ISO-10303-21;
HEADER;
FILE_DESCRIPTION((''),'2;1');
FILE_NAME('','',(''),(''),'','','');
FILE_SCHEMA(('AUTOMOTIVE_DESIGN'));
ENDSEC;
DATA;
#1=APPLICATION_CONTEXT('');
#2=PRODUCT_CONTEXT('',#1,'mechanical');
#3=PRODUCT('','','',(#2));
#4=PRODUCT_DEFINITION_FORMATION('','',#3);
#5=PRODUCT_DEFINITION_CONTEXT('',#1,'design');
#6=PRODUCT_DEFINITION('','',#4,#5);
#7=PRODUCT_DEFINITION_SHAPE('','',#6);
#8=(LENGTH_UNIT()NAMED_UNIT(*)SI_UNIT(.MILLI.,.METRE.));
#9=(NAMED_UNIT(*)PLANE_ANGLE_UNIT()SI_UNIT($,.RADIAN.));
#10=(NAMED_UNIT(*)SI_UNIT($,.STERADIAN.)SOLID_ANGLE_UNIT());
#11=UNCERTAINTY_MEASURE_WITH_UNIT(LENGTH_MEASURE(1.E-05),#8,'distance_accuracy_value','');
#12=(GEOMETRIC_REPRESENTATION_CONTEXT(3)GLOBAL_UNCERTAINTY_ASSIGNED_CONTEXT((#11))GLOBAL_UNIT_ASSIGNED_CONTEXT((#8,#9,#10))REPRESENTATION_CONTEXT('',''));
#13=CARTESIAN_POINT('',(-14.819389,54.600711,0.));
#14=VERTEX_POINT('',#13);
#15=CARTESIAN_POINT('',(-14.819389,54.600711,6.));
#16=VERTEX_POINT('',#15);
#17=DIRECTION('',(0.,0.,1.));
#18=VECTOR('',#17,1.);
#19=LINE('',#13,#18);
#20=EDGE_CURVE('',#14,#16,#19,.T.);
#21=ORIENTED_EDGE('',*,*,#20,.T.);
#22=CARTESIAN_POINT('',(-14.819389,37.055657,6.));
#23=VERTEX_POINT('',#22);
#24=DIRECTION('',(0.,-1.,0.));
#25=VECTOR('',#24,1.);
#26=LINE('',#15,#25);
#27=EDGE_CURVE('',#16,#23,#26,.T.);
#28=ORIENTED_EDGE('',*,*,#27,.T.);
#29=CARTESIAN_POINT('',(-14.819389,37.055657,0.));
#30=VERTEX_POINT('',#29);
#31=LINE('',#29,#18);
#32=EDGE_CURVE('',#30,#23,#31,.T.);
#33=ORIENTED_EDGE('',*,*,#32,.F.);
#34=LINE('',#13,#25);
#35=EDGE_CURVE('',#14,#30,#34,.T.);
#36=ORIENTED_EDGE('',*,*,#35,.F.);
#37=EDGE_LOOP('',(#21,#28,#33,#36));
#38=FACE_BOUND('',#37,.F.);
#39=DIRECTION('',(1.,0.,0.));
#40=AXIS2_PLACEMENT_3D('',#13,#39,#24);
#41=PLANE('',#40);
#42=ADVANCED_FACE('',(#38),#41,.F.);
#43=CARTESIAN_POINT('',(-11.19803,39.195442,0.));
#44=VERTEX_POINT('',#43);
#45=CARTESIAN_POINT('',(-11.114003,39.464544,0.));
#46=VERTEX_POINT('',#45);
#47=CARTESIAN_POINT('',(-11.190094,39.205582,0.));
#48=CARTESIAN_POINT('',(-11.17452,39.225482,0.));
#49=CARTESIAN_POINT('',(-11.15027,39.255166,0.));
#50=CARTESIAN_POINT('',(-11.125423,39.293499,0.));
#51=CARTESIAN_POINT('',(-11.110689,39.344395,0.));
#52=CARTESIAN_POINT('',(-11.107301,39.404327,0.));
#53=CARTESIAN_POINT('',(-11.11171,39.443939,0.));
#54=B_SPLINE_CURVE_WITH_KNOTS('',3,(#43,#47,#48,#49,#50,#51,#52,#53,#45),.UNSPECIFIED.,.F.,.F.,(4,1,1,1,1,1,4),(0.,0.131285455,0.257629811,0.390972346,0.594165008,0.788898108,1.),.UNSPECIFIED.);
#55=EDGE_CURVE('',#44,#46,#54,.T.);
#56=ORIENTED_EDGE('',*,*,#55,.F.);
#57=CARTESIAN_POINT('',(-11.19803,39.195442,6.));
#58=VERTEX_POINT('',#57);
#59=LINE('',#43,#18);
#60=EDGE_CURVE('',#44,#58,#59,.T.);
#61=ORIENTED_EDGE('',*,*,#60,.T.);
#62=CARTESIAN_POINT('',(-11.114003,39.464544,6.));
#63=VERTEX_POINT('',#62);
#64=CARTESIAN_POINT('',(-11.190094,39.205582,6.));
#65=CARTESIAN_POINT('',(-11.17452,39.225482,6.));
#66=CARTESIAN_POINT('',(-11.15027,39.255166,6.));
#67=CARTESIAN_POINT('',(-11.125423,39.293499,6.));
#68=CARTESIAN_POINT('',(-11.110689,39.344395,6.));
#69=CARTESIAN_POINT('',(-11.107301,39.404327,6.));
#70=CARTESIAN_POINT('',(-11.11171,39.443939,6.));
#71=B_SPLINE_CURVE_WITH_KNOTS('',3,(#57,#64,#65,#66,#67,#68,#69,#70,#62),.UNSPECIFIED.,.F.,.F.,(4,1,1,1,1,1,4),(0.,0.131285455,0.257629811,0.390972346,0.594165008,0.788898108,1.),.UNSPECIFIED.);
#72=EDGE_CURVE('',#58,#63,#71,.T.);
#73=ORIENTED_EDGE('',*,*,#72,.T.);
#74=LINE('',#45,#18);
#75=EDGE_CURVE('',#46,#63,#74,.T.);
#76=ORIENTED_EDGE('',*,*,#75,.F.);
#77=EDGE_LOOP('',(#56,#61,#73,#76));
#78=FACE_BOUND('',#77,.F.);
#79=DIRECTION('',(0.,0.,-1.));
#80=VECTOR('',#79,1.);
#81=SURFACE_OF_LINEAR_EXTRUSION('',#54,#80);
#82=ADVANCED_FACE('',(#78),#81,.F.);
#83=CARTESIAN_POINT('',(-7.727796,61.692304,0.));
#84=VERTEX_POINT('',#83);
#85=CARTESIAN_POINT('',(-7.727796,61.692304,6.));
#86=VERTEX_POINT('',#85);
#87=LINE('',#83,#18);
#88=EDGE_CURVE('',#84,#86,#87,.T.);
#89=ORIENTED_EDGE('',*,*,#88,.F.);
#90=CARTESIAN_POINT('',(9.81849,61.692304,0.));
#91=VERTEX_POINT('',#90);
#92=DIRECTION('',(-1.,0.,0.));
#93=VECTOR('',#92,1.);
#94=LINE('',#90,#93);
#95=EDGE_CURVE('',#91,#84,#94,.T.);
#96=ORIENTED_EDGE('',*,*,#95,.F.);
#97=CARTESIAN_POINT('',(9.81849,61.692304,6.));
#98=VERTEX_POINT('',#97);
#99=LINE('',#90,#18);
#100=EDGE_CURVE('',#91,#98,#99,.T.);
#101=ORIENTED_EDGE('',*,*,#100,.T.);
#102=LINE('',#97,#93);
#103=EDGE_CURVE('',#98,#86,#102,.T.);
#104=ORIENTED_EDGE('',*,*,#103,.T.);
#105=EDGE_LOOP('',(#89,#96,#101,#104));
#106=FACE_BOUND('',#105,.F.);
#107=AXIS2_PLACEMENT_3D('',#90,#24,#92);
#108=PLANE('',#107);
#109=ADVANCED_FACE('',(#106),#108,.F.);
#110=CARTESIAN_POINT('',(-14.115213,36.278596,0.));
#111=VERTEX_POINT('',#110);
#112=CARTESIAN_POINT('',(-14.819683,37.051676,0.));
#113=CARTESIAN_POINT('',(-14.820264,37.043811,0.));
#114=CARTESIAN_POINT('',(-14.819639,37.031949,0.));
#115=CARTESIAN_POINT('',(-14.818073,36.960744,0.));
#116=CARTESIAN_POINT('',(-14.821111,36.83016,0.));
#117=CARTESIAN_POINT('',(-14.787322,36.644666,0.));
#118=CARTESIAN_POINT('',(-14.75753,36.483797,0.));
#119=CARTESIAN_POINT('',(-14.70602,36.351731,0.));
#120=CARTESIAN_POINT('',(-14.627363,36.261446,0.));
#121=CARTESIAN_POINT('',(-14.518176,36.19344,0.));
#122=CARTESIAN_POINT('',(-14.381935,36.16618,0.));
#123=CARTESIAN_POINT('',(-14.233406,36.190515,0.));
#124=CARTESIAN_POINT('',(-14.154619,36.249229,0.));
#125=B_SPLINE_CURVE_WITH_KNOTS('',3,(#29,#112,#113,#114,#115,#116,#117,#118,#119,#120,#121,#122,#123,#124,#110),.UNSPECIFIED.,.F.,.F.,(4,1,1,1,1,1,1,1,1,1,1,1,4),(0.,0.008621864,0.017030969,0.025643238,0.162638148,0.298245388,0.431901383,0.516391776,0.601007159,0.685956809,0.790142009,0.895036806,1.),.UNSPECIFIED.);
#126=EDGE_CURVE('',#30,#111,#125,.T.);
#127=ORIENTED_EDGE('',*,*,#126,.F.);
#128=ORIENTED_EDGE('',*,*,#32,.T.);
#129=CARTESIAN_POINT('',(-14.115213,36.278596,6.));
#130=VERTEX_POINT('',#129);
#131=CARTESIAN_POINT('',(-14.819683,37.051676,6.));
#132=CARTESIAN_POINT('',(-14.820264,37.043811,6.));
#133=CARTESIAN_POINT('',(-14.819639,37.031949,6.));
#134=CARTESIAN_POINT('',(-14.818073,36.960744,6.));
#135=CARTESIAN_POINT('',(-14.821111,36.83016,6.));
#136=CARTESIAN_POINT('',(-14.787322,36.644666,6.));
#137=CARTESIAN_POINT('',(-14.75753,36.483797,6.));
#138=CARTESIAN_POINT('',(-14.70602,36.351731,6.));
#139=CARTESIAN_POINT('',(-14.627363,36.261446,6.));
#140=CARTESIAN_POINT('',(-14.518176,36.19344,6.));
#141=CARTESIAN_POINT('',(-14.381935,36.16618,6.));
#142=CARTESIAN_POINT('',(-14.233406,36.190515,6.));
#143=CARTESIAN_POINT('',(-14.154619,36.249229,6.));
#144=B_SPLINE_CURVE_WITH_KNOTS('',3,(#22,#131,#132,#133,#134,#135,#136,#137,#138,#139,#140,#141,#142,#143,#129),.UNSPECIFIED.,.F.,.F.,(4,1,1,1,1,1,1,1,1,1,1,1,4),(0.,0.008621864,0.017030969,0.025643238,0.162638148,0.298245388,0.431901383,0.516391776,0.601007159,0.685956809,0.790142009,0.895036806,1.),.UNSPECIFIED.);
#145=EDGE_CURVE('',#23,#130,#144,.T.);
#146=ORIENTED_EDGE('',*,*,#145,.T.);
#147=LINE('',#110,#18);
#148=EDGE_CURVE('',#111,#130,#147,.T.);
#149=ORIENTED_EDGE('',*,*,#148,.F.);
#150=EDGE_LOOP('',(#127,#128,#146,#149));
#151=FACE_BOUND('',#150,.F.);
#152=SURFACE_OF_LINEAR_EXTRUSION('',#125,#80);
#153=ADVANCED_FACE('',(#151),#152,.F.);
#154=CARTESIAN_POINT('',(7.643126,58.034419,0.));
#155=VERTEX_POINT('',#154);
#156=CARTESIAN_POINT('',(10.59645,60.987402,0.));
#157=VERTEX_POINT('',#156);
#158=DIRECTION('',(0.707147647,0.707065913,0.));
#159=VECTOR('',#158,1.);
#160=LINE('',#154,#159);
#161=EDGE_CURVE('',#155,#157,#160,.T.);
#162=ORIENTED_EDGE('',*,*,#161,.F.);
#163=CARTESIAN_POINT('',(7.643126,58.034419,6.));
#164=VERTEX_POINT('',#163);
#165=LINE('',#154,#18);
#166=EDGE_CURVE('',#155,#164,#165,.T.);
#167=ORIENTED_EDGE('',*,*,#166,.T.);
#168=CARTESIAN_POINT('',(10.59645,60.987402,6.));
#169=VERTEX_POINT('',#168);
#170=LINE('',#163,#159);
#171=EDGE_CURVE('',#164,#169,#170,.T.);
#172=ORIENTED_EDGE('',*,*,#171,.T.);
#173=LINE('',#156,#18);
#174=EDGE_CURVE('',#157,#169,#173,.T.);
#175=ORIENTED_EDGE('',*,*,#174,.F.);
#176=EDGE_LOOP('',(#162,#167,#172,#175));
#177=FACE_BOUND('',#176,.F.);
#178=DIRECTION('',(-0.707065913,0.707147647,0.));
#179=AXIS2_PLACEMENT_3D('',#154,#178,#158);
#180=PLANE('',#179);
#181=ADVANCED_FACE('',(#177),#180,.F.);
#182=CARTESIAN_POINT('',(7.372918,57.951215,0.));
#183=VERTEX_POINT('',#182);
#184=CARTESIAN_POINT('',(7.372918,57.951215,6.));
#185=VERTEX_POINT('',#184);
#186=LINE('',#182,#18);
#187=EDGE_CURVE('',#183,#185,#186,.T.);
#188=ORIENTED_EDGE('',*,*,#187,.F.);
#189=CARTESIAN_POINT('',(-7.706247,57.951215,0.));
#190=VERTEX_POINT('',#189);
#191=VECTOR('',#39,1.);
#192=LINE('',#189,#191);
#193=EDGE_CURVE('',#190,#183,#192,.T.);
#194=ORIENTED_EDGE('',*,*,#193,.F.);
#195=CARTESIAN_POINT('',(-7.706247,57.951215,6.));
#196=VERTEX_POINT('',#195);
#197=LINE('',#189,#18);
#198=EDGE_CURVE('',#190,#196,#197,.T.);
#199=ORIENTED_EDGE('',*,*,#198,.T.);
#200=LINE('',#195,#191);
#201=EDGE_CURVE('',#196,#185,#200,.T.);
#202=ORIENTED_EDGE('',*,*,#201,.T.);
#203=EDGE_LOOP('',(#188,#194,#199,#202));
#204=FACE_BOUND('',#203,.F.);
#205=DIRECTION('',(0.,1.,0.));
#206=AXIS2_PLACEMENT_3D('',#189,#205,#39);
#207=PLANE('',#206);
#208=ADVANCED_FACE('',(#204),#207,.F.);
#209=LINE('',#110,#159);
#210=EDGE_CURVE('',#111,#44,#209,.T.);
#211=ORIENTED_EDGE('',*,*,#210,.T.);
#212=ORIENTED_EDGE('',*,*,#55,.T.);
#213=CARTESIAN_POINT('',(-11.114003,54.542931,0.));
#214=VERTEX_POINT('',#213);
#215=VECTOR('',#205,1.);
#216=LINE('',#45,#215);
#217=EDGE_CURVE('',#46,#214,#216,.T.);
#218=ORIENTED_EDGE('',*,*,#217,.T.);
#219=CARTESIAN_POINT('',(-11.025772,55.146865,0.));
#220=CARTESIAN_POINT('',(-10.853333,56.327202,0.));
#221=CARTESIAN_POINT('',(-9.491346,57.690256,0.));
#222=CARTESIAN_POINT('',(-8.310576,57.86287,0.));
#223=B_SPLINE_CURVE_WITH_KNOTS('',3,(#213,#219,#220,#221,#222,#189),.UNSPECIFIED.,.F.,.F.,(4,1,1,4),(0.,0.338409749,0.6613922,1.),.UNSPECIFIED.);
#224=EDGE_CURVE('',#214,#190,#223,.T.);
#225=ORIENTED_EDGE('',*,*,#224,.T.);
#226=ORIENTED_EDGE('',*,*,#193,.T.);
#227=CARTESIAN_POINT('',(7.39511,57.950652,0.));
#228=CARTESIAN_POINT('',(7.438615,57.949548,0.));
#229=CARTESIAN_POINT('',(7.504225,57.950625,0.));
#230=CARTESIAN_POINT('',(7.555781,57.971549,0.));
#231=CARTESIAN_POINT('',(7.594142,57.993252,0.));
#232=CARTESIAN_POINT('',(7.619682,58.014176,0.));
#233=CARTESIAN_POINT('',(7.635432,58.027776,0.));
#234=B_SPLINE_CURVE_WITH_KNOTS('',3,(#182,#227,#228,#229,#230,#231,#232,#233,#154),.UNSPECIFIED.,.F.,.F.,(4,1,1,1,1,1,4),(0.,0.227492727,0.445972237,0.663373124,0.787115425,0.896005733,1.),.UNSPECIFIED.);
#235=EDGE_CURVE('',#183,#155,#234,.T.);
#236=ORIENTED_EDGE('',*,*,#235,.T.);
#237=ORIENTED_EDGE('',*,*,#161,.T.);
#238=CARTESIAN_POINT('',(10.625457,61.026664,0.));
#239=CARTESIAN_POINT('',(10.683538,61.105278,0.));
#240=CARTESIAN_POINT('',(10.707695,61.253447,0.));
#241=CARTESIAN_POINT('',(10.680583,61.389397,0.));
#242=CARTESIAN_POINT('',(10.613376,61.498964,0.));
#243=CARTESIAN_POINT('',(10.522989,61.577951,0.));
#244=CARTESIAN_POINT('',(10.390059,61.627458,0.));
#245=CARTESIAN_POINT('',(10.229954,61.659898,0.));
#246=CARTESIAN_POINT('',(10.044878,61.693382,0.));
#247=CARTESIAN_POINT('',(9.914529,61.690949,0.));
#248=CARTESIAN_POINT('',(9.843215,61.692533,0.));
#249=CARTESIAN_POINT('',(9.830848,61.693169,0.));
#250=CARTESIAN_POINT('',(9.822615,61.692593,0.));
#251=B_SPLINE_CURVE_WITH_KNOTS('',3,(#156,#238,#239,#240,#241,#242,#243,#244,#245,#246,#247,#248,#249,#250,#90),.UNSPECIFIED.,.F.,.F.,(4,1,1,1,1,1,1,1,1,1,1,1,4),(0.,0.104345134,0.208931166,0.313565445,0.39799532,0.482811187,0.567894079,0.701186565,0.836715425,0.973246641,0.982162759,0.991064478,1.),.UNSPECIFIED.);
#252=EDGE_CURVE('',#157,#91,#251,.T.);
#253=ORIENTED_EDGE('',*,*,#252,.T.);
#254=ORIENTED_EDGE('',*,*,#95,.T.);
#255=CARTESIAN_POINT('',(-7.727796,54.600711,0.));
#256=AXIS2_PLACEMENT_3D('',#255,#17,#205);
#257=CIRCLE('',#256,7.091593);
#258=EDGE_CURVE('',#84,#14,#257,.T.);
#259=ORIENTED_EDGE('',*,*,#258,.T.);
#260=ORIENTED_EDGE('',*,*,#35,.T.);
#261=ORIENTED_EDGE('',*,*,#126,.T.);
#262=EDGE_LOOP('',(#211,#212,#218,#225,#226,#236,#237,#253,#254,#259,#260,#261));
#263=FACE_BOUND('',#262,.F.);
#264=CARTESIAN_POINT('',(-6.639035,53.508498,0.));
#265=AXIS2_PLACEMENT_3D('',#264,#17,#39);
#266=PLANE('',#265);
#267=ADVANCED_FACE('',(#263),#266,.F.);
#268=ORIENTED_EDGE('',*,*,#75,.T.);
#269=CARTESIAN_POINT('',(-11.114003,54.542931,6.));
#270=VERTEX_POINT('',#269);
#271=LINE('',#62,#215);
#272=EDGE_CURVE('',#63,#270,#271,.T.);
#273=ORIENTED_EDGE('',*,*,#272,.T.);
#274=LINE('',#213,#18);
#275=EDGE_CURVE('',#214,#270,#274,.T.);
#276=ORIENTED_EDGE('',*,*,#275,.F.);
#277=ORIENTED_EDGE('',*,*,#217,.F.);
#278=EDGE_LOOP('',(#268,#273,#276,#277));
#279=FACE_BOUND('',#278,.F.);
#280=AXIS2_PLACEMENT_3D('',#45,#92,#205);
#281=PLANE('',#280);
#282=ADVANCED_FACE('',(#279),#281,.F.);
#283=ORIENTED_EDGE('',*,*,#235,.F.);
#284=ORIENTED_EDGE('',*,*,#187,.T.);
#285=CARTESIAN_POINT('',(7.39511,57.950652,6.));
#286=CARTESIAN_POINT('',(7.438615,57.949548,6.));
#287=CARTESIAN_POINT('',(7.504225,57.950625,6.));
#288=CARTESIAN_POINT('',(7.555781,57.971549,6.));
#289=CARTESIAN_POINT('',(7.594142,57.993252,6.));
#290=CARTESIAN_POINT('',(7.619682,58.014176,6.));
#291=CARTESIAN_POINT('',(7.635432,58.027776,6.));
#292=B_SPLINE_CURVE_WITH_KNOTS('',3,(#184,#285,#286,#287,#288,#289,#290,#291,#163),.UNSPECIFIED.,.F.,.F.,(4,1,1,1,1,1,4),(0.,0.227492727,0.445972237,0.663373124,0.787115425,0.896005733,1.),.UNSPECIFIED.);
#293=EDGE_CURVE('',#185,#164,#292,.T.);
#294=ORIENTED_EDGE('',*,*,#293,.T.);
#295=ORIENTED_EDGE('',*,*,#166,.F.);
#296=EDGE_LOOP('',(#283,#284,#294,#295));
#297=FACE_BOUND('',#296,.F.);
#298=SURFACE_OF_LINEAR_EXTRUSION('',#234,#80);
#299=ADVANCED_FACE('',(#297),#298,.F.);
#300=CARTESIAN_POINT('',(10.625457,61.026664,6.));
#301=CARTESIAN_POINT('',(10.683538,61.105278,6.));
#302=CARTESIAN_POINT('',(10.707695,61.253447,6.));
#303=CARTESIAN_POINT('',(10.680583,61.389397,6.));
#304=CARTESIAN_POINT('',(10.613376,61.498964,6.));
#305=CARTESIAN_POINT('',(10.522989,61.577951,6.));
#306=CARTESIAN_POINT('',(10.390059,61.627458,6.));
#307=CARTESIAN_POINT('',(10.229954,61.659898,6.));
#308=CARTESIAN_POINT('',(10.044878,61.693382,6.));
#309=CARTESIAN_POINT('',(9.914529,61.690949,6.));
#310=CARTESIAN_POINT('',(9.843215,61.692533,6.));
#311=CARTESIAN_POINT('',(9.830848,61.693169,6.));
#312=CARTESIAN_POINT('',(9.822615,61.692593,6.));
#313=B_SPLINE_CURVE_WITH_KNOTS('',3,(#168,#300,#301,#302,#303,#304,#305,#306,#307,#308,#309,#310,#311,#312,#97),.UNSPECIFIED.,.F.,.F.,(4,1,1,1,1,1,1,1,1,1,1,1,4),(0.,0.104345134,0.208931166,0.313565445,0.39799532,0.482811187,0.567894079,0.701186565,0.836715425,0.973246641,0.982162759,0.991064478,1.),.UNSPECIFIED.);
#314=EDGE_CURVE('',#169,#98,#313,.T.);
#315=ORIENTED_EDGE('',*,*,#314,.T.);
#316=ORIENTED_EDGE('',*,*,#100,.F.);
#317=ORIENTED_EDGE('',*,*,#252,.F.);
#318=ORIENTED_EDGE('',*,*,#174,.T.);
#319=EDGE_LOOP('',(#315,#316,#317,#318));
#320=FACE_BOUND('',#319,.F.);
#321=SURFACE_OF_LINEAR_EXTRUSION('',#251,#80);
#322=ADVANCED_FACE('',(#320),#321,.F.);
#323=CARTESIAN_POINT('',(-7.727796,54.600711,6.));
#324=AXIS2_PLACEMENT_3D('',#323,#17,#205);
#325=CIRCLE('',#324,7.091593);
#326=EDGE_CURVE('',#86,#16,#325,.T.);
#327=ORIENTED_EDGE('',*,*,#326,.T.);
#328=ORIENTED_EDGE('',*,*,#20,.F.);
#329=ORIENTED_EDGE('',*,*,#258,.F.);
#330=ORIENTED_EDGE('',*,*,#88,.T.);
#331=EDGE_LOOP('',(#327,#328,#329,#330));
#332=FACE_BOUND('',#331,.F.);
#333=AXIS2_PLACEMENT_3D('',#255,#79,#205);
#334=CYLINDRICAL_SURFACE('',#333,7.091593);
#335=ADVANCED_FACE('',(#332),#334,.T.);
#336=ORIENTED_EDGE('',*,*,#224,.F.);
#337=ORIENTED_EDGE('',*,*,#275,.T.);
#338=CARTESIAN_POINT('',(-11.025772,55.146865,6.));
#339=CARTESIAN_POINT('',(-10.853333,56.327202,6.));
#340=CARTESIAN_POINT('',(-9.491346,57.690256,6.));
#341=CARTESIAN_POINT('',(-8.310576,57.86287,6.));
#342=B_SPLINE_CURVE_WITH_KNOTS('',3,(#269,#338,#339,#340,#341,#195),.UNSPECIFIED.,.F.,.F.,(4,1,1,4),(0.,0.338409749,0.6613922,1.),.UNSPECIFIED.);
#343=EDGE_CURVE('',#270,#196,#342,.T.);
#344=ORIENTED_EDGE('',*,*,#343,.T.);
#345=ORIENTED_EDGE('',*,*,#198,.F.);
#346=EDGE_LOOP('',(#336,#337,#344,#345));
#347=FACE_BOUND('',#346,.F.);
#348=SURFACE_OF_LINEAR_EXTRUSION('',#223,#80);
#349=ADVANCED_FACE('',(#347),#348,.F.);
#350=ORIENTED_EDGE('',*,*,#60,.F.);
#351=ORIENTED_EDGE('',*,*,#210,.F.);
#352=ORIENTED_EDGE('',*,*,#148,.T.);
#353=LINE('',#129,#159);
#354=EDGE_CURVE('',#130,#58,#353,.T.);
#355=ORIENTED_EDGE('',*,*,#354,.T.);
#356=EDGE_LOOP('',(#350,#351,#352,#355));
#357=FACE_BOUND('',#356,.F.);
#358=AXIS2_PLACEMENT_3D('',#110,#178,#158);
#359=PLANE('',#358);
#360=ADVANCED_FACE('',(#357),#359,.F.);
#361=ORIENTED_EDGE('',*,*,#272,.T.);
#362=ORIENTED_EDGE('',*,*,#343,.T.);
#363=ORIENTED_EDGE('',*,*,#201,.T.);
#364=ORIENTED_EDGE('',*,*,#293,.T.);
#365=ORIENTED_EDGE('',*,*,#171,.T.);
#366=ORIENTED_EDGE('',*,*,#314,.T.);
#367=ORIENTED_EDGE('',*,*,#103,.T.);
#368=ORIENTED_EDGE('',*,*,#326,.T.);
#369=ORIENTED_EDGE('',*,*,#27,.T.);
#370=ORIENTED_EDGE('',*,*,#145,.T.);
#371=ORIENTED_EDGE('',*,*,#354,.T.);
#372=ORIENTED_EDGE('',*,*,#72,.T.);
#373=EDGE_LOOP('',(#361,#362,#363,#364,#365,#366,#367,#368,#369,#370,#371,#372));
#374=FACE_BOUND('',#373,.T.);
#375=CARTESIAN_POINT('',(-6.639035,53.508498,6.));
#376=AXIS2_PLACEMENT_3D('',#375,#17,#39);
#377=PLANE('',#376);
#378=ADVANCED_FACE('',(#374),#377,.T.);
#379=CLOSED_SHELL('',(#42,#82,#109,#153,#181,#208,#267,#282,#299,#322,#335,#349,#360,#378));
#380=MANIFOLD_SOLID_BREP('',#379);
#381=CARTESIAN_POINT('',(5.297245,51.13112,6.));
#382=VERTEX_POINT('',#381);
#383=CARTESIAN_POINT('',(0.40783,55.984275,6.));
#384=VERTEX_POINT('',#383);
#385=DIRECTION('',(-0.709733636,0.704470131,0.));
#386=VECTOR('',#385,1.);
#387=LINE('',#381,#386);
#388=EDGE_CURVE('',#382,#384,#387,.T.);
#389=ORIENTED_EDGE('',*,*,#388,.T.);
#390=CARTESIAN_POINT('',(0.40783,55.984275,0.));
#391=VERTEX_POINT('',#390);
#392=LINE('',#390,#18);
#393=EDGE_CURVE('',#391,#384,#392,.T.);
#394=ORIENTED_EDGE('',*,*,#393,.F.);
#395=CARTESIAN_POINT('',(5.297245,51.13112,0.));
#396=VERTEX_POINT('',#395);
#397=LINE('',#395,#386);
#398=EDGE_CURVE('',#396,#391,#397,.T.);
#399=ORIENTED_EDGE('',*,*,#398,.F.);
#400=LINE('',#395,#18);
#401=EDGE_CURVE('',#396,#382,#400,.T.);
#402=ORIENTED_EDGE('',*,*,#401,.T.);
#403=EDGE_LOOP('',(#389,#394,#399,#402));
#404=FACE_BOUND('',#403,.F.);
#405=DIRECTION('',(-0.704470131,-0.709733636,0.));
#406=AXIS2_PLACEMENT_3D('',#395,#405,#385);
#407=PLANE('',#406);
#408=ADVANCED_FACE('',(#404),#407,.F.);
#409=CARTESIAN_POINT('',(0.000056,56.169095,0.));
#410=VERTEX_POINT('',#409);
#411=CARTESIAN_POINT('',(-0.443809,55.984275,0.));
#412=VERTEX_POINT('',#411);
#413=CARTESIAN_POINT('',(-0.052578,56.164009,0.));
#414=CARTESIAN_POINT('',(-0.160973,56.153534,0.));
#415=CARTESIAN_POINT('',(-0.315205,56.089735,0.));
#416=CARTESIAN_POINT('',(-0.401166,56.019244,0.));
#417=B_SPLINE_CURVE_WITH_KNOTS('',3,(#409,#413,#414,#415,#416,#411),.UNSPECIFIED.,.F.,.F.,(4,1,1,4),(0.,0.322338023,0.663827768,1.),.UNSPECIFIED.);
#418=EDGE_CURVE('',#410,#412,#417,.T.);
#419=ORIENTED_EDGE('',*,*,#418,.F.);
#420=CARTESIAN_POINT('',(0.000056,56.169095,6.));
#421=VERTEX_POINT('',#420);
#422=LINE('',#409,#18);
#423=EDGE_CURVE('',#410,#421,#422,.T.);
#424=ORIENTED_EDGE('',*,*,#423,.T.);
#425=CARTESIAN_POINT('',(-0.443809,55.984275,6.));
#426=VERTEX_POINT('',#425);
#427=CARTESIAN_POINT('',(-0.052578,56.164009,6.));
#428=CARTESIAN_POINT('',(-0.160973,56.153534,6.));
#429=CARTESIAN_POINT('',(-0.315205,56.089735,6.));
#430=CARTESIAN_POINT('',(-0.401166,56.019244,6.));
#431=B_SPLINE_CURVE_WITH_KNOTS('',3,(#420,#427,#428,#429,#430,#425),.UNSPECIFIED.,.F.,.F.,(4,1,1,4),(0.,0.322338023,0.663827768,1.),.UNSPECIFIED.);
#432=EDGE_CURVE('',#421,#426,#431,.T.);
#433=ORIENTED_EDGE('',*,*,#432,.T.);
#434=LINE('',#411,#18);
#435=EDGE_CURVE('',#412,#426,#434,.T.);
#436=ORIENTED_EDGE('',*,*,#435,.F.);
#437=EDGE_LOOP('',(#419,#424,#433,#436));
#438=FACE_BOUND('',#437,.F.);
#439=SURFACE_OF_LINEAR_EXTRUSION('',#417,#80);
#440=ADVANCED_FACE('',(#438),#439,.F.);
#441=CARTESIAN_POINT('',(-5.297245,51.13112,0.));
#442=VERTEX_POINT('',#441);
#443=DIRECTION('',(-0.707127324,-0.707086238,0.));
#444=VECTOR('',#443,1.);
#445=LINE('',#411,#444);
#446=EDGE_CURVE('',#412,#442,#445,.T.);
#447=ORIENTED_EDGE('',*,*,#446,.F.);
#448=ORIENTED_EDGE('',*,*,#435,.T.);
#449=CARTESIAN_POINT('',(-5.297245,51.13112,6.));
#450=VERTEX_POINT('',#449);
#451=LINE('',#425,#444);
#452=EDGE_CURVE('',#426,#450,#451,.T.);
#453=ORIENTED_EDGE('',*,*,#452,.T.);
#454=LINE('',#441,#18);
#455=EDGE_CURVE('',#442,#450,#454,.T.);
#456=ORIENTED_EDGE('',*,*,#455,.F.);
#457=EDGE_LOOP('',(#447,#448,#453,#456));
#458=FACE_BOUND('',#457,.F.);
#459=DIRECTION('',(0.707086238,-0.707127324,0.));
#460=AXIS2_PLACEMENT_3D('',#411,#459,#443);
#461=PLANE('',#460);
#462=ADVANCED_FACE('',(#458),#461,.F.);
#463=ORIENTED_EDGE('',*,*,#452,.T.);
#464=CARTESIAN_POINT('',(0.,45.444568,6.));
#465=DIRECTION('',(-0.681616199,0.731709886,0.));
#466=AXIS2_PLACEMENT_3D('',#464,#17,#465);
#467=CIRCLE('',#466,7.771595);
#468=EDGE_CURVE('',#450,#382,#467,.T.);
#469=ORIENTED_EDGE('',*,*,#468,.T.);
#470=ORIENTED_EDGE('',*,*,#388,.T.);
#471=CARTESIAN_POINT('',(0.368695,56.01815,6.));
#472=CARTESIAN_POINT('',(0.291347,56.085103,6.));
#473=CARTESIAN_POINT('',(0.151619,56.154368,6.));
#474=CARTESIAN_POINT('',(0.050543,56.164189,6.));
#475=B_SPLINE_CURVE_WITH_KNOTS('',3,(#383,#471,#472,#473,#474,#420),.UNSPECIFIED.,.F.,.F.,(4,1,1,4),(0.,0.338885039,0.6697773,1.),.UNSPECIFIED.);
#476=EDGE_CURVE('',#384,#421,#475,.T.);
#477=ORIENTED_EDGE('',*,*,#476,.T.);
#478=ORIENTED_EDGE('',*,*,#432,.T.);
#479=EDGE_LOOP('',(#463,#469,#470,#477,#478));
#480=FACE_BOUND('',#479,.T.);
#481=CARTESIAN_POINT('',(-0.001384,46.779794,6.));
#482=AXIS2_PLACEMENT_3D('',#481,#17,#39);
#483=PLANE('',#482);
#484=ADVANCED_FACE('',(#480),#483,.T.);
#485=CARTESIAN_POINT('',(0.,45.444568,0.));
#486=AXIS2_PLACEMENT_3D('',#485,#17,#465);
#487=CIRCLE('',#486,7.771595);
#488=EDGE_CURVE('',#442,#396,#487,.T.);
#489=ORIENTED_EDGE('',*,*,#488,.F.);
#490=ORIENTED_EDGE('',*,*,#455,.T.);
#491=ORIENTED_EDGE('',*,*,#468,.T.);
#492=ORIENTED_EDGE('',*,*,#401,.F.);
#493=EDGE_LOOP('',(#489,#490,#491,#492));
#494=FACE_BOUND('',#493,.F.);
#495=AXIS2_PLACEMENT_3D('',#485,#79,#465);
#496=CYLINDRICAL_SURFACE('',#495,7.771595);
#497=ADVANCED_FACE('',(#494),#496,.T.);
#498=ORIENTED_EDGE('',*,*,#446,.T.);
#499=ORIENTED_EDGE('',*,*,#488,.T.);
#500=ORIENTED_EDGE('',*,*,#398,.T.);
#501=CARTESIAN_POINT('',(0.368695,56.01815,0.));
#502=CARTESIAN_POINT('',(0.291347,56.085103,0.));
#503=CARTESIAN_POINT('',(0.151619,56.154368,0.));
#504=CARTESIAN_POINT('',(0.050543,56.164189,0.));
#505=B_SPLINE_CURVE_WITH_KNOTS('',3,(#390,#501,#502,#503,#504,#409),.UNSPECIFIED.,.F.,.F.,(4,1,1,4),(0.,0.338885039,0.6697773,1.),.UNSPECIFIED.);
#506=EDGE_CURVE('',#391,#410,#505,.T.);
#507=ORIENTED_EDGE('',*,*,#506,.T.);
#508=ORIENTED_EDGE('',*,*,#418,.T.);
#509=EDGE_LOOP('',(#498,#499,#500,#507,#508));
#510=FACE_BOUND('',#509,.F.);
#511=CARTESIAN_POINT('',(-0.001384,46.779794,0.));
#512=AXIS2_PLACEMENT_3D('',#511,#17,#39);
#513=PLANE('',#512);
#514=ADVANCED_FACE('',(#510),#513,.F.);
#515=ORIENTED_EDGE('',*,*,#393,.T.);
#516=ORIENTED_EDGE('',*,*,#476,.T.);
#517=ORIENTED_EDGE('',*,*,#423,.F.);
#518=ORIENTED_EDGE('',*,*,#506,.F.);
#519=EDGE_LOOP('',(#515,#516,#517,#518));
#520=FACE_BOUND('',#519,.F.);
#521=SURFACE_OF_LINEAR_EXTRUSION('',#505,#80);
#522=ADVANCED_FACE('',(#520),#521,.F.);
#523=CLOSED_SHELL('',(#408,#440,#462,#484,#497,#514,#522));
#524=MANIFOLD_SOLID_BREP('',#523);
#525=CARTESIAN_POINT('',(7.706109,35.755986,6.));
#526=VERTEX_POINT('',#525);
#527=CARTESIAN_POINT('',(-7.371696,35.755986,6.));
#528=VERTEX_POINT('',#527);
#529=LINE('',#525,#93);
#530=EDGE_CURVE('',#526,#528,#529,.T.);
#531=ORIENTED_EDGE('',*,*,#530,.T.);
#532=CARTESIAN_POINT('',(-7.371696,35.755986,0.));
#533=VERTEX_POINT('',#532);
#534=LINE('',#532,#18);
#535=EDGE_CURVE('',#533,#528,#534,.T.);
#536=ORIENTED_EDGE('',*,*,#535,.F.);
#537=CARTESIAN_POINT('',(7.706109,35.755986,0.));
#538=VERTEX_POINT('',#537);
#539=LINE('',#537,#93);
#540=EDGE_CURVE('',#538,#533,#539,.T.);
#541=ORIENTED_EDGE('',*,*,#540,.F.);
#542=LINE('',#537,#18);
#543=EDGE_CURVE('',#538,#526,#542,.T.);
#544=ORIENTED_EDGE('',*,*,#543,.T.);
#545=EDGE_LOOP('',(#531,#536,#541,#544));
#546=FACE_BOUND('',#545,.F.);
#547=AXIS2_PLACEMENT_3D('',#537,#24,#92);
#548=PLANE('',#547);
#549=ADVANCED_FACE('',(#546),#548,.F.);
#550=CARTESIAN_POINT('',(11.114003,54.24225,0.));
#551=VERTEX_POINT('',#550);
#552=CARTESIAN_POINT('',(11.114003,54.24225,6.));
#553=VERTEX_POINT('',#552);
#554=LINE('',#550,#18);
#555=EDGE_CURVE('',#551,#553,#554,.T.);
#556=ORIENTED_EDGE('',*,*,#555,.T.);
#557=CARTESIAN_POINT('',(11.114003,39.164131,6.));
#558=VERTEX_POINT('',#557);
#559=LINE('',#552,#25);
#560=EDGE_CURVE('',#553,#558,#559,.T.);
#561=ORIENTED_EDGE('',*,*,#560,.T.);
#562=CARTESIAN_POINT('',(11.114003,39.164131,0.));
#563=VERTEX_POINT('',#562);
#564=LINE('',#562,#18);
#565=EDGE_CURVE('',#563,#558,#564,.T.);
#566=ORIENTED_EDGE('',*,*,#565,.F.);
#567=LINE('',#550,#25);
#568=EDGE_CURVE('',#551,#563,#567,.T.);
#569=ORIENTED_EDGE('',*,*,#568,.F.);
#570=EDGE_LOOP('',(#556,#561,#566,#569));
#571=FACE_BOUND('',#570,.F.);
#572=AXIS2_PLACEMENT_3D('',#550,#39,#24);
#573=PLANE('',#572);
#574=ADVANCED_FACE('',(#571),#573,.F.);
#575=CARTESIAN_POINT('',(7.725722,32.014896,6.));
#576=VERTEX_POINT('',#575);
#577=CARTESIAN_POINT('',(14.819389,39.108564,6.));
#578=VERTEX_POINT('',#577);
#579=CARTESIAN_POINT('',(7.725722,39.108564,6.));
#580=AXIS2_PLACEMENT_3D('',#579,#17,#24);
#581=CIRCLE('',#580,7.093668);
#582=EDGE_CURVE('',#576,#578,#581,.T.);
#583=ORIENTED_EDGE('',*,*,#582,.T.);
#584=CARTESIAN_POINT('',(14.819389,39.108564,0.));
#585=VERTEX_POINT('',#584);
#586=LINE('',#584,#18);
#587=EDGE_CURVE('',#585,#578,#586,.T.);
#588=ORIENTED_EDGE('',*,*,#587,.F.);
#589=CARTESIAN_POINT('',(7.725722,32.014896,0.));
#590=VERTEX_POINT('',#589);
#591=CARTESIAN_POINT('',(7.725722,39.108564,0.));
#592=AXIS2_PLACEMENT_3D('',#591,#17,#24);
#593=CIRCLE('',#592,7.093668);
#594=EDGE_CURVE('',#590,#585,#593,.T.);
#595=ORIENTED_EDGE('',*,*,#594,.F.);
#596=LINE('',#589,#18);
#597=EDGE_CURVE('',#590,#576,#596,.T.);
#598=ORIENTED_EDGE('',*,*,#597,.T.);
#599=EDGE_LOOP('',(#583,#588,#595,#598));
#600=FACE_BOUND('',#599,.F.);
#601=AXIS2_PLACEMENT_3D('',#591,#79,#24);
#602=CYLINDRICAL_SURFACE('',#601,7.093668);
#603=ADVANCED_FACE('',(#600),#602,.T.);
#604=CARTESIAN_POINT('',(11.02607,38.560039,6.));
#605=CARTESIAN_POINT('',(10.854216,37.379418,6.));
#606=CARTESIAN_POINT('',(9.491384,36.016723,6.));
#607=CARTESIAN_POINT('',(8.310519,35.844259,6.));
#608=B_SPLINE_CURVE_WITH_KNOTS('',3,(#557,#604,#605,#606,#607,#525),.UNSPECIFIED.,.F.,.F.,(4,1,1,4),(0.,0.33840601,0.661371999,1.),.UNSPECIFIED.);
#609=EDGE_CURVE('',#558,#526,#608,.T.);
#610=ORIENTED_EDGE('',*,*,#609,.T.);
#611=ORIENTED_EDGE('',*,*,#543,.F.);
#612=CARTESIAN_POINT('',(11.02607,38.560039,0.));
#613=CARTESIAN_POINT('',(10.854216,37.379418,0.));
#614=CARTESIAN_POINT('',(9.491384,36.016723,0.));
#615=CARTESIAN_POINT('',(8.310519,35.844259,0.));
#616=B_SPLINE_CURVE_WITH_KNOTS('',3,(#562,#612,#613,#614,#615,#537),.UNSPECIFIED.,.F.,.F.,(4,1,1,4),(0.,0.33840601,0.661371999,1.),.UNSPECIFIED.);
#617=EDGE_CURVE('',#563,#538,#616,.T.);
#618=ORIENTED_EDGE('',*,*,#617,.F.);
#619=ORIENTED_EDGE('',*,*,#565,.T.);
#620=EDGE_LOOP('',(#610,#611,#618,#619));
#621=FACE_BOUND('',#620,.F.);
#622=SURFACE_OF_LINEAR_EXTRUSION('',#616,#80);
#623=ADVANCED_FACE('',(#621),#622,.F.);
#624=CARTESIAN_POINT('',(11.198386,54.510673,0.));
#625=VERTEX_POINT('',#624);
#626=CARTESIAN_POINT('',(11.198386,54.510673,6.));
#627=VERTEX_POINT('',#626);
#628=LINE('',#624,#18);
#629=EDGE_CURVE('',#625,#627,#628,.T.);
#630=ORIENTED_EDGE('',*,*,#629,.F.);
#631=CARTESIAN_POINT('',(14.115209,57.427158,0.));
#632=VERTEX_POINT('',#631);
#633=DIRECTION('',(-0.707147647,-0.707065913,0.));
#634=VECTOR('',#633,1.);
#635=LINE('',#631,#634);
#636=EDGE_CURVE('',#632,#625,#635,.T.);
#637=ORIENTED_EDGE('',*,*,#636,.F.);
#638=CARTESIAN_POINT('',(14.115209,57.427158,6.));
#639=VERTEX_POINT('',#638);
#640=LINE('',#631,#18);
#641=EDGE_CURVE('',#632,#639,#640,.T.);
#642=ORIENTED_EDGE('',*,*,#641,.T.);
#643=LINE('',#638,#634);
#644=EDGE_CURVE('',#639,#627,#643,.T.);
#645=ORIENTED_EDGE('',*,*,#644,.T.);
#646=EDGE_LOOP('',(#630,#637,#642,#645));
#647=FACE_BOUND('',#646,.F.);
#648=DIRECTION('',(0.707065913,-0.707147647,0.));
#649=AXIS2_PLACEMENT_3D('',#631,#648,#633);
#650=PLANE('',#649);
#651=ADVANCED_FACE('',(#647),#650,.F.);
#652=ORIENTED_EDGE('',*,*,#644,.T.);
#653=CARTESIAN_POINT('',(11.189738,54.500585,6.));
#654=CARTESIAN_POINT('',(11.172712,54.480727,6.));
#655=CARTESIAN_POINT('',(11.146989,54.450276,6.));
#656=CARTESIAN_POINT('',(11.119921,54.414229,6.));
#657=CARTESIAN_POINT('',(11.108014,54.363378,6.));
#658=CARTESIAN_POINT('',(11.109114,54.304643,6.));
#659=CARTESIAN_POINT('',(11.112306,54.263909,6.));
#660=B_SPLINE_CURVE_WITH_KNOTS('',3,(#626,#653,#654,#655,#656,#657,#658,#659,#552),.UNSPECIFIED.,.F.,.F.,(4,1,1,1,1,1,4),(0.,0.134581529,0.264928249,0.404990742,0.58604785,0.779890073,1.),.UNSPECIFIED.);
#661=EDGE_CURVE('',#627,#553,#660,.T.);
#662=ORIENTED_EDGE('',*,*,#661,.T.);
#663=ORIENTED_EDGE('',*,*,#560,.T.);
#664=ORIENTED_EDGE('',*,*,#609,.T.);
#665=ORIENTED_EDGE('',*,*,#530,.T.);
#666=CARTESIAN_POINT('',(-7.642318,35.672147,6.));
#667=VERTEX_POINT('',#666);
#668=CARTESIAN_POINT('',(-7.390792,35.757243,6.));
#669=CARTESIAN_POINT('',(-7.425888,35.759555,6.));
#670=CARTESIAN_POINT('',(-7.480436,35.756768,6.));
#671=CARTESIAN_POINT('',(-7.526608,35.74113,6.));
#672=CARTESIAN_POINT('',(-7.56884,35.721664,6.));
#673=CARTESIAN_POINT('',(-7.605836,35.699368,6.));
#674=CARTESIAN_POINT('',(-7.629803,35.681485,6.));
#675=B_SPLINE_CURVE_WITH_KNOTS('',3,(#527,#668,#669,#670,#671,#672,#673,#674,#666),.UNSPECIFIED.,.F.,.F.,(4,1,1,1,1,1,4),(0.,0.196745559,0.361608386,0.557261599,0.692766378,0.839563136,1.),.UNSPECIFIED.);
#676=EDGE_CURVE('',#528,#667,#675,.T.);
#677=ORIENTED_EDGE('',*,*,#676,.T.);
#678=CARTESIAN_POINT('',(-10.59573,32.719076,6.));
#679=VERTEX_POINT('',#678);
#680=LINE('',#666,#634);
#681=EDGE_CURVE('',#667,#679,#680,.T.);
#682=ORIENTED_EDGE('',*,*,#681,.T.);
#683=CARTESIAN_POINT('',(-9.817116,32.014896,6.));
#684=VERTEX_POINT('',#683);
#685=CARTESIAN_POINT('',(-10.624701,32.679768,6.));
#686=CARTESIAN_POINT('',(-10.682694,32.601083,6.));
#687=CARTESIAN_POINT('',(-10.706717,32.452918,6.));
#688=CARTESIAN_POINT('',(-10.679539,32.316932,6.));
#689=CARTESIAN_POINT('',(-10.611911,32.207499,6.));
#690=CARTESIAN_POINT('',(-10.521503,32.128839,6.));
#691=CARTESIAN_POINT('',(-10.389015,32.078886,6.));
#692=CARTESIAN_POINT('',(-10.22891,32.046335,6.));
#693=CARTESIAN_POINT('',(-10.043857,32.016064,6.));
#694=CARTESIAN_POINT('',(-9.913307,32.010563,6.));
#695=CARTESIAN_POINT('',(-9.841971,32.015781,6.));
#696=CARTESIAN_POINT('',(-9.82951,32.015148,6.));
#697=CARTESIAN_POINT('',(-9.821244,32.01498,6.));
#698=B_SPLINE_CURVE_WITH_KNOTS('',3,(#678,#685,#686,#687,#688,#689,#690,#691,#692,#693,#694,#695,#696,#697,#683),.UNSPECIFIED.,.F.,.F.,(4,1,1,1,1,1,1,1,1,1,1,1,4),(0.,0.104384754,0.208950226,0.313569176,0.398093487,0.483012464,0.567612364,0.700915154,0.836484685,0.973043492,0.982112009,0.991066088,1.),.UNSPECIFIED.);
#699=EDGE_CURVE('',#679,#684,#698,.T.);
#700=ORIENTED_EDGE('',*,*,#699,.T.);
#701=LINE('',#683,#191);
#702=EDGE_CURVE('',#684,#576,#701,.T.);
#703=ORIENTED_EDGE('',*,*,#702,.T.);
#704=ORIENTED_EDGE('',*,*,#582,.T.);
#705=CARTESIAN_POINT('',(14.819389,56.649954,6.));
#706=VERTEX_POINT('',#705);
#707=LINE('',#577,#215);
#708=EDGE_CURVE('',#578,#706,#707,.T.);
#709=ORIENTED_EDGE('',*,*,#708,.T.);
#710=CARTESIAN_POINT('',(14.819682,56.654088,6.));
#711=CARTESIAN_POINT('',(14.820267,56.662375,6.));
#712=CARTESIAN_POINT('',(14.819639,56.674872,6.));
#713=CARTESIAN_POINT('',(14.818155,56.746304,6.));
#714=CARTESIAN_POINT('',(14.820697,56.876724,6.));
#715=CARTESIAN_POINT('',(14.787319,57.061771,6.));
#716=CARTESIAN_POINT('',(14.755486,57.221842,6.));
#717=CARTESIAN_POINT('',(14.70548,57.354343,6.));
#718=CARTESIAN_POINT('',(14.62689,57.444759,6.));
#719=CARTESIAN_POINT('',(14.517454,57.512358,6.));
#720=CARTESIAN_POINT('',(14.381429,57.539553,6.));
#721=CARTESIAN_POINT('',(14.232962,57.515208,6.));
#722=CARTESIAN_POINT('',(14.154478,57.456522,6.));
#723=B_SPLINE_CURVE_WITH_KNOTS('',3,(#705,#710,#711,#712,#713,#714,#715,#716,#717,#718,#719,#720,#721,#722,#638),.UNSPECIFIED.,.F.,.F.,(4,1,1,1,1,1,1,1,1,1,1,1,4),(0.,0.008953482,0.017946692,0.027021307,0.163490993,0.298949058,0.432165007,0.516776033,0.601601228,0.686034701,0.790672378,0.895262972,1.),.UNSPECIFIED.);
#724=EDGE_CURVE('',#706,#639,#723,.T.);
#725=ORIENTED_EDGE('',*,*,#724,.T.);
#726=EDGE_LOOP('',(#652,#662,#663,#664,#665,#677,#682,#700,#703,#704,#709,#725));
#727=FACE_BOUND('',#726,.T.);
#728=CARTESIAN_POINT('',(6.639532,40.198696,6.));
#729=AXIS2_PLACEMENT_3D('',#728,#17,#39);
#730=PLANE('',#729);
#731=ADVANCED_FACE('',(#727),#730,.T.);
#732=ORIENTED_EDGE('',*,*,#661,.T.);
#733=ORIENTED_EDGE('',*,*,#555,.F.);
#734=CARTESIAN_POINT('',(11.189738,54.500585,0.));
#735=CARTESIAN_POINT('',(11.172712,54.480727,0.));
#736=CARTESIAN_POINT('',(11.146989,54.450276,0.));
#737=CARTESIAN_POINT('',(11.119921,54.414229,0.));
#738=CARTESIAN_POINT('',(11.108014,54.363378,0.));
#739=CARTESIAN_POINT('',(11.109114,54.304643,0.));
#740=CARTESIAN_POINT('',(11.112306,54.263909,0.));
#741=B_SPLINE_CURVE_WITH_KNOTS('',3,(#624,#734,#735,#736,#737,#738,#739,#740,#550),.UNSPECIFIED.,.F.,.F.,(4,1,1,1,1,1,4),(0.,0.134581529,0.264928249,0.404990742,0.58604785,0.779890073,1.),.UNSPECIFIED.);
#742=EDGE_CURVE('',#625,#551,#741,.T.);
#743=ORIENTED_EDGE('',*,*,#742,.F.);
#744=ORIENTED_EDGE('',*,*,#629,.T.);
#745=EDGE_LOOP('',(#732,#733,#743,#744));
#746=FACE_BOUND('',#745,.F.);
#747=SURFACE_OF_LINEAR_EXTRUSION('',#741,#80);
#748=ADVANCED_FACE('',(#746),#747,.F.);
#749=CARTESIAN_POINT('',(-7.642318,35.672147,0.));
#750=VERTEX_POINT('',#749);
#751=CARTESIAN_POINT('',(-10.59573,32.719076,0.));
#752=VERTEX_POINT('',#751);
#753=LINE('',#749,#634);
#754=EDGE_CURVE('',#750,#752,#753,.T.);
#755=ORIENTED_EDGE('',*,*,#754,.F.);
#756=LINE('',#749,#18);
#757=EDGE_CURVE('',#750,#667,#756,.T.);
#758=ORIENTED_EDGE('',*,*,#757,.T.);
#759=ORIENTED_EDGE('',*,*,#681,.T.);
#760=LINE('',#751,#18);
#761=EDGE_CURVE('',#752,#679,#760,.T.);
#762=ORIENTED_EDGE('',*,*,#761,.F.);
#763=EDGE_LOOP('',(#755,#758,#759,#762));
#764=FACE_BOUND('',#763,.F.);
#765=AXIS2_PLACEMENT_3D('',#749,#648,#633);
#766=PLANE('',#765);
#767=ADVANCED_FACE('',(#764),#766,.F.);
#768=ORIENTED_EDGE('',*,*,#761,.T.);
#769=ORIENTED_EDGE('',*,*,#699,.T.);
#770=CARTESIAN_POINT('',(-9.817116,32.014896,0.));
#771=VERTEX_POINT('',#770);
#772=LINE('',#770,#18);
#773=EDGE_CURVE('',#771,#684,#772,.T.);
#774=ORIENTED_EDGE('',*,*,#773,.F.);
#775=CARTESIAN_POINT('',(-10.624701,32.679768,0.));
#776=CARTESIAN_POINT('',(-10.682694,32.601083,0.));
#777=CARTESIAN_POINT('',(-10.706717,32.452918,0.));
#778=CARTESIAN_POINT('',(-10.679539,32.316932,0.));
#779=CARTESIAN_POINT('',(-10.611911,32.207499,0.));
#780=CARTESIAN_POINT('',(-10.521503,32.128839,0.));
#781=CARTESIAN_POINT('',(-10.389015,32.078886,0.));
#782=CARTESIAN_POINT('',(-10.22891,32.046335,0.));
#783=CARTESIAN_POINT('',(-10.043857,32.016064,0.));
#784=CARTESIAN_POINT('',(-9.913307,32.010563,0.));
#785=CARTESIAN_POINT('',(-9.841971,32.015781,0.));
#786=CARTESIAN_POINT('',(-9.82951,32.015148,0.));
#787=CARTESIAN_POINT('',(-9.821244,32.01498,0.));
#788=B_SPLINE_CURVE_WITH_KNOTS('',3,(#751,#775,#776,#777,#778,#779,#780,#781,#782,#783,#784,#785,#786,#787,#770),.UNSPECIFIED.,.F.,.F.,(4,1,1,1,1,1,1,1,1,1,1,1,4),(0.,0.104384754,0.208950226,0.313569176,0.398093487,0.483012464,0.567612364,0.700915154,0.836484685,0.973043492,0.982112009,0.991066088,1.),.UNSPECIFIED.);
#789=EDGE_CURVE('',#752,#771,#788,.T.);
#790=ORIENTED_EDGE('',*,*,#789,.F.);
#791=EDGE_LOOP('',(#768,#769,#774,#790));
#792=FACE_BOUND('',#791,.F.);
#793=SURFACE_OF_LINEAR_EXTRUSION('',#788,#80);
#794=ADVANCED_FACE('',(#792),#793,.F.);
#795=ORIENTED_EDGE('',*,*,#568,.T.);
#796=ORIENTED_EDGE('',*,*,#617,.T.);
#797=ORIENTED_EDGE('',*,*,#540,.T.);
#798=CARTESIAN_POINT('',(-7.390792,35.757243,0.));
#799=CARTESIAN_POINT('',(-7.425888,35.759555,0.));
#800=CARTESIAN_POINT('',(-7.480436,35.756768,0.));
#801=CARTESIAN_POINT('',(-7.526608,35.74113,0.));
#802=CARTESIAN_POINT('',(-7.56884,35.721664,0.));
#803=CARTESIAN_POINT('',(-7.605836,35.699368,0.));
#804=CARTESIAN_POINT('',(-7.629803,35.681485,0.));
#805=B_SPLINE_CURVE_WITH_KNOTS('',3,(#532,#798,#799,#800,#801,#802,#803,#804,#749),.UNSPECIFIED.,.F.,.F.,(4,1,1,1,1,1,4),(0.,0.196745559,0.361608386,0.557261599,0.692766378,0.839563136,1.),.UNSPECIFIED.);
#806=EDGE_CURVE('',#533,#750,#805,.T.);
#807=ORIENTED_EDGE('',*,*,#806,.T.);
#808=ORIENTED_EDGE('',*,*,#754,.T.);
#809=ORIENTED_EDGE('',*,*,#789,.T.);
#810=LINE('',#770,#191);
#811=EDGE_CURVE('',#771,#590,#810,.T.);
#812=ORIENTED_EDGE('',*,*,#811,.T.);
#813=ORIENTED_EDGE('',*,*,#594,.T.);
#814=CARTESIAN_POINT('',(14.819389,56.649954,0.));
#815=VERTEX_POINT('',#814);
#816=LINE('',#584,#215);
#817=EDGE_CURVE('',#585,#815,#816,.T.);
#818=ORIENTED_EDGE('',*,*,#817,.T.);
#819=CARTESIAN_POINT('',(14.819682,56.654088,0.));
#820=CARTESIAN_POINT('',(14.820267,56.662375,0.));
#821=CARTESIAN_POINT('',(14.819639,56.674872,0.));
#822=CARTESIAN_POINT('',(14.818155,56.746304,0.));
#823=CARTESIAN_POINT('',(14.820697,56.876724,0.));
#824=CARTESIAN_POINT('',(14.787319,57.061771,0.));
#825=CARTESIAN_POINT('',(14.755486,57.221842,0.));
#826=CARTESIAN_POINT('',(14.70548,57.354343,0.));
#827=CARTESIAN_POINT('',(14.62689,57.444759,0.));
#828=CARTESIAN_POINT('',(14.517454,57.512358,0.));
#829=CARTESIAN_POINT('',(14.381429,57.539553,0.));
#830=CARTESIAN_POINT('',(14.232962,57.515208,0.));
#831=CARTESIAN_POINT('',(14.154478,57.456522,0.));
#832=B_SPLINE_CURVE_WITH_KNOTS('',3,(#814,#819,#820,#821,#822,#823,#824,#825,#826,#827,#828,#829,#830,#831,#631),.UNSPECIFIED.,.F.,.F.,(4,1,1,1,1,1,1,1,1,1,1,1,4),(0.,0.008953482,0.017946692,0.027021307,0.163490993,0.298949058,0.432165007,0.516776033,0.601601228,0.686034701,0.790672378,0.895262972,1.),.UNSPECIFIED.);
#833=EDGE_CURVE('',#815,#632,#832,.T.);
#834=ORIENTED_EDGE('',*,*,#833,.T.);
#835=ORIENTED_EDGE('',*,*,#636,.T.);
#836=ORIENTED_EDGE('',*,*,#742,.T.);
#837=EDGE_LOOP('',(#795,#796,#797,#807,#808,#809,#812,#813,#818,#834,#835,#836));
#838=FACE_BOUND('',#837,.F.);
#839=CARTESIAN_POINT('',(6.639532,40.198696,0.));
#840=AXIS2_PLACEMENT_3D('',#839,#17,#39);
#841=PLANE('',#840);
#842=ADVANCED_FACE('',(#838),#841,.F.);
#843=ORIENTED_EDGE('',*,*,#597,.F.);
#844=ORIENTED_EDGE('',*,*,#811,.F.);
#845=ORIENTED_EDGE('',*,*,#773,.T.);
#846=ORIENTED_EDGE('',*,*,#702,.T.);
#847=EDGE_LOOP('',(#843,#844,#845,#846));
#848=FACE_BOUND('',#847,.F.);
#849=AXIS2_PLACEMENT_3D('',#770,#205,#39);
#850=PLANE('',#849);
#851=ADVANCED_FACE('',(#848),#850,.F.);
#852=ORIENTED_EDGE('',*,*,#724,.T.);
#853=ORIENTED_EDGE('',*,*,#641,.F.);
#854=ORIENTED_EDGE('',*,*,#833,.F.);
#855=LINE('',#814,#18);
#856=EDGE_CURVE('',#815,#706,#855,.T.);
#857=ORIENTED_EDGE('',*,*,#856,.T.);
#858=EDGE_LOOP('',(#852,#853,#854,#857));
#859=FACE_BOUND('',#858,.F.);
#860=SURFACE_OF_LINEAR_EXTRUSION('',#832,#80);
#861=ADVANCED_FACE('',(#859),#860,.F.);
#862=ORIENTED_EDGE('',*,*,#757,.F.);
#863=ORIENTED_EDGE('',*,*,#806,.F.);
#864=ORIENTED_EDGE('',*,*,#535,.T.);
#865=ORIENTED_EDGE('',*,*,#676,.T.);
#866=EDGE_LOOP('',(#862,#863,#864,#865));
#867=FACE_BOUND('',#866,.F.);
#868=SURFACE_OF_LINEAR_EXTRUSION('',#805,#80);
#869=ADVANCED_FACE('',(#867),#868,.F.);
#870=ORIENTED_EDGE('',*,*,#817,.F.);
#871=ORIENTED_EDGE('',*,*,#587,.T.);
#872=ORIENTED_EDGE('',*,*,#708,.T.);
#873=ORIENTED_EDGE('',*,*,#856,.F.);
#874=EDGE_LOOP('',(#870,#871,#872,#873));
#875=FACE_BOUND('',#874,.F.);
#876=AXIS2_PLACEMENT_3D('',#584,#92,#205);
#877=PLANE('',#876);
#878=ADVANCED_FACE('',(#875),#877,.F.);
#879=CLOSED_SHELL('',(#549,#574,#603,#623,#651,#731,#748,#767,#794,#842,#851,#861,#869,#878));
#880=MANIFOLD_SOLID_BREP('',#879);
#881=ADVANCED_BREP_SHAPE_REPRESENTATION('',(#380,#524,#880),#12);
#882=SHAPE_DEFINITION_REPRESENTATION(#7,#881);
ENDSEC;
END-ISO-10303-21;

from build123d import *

# Parameters (mm, degrees)
BOSS_EXTRUDE1_DEPTH   = 6
BOSS_EXTRUDE1_2_DEPTH = 6
BOSS_EXTRUDE1_3_DEPTH = 6


with BuildPart() as part:
    # Sketch2 → Boss-Extrude1 (new body)
    with BuildSketch(Plane.XY):
        with BuildLine():
            Line((-0.443808512, 55.984274583), (-5.297244805, 51.131120289))
            ThreePointArc((-5.297244805, 51.131120289), (0, 37.672973009), (5.297244805, 51.131120289))
            Line((5.297244805, 51.131120289), (0.407829784, 55.984274583))
            add(Edge.make_bspline(
                [(0.407829784, 55.984274583), (0.368694639, 56.018150383), (0.291347372, 56.085103007), (0.15161935, 56.154367662), (0.050542727, 56.164189345), (5.56e-05, 56.169095213)],
                knots=[0, 0, 0, 0, 0.338885039, 0.6697773, 1, 1, 1, 1], degree=3))
            add(Edge.make_bspline(
                [(5.56e-05, 56.169095213), (-0.05257804, 56.164008855), (-0.160972548, 56.153533933), (-0.315204963, 56.089735455), (-0.401165502, 56.019243828), (-0.443808512, 55.984274583)],
                knots=[0, 0, 0, 0, 0.322338023, 0.663827768, 1, 1, 1, 1], degree=3))
        make_face()
    extrude(amount=BOSS_EXTRUDE1_DEPTH)


with BuildPart() as body_2:
    # Sketch2 → Boss-Extrude1 2 (new body)
    with BuildSketch(Plane.XY):
        with BuildLine():
            Line((-7.706246934, 57.951214685), (7.372918204, 57.951214685))
            add(Edge.make_bspline(
                [(7.372918204, 57.951214685), (7.395110156, 57.950651705), (7.438614819, 57.949548051), (7.504225261, 57.950625459), (7.555781235, 57.971549168), (7.594142025, 57.993251928), (7.6196821, 58.014176428), (7.635431909, 58.027775879), (7.643125702, 58.03441922)],
                knots=[0, 0, 0, 0, 0.227492727, 0.445972237, 0.663373124, 0.787115425, 0.896005733, 1, 1, 1, 1], degree=3))
            Line((7.643125702, 58.03441922), (10.59644992, 60.987402087))
            add(Edge.make_bspline(
                [(10.59644992, 60.987402087), (10.625456983, 61.026663762), (10.683538077, 61.105277754), (10.707695299, 61.253447318), (10.680583073, 61.389397251), (10.6133758, 61.49896423), (10.522988745, 61.577950635), (10.390059362, 61.627458402), (10.229954222, 61.659898091), (10.044878415, 61.693381506), (9.914529471, 61.690948887), (9.843214909, 61.692533466), (9.830847981, 61.693169337), (9.822614549, 61.692592712), (9.818490032, 61.692303853)],
                knots=[0, 0, 0, 0, 0.104345134, 0.208931166, 0.313565445, 0.39799532, 0.482811187, 0.567894079, 0.701186565, 0.836715425, 0.973246641, 0.982162759, 0.991064478, 1, 1, 1, 1], degree=3))
            Line((9.818490032, 61.692303853), (-7.727796486, 61.692303853))
            ThreePointArc((-7.727796486, 61.692303853), (-12.742309897, 59.615224389), (-14.819389361, 54.600710977))
            Line((-14.819389361, 54.600710977), (-14.819389361, 37.055657069))
            add(Edge.make_bspline(
                [(-14.819389361, 37.055657069), (-14.819683443, 37.05167552), (-14.82026435, 37.043810673), (-14.819639427, 37.031949151), (-14.818072735, 36.960744177), (-14.821111299, 36.830160331), (-14.78732224, 36.644666005), (-14.757529562, 36.48379651), (-14.706020153, 36.351730889), (-14.627362714, 36.261445855), (-14.518175826, 36.193440108), (-14.381934797, 36.166179863), (-14.233405716, 36.190514922), (-14.154618978, 36.249229011), (-14.11521277, 36.278595623)],
                knots=[0, 0, 0, 0, 0.008621864, 0.017030969, 0.025643238, 0.162638148, 0.298245388, 0.431901383, 0.516391776, 0.601007159, 0.685956809, 0.790142009, 0.895036806, 1, 1, 1, 1], degree=3))
            Line((-14.11521277, 36.278595623), (-11.198029632, 39.195441586))
            add(Edge.make_bspline(
                [(-11.198029632, 39.195441586), (-11.190093681, 39.205582441), (-11.174520458, 39.225482487), (-11.15027016, 39.255165521), (-11.125422855, 39.293499099), (-11.110689079, 39.344394677), (-11.107300881, 39.404327233), (-11.111709764, 39.443939019), (-11.114003119, 39.464543755)],
                knots=[0, 0, 0, 0, 0.131285455, 0.257629811, 0.390972346, 0.594165008, 0.788898108, 1, 1, 1, 1], degree=3))
            Line((-11.114003119, 39.464543755), (-11.114003119, 54.542930501))
            add(Edge.make_bspline(
                [(-11.114003119, 54.542930501), (-11.025772384, 55.146864843), (-10.853333144, 56.327201592), (-9.491346414, 57.690256382), (-8.310575854, 57.862869665), (-7.706246934, 57.951214685)],
                knots=[0, 0, 0, 0, 0.338409749, 0.6613922, 1, 1, 1, 1], degree=3))
        make_face()
    extrude(amount=BOSS_EXTRUDE1_2_DEPTH)


with BuildPart() as body_3:
    # Sketch2 → Boss-Extrude1 3 (new body)
    with BuildSketch(Plane.XY):
        with BuildLine():
            Line((7.706108935, 35.755985581), (-7.3716965, 35.755985581))
            add(Edge.make_bspline(
                [(-7.3716965, 35.755985581), (-7.390791848, 35.757243364), (-7.42588813, 35.759555105), (-7.480435634, 35.756767712), (-7.526608025, 35.741130321), (-7.568839822, 35.721664455), (-7.605836087, 35.699368029), (-7.62980257, 35.681485074), (-7.642317826, 35.672146626)],
                knots=[0, 0, 0, 0, 0.196745559, 0.361608386, 0.557261599, 0.692766378, 0.839563136, 1, 1, 1, 1], degree=3))
            Line((-7.642317826, 35.672146626), (-10.595729808, 32.719076005))
            add(Edge.make_bspline(
                [(-10.595729808, 32.719076005), (-10.624701104, 32.679767795), (-10.682693852, 32.601083323), (-10.706716869, 32.452917901), (-10.679538616, 32.31693156), (-10.611911158, 32.207498808), (-10.521503266, 32.1288385), (-10.389015109, 32.078886041), (-10.228910201, 32.046334857), (-10.043857278, 32.01606427), (-9.91330711, 32.010562917), (-9.841970676, 32.015780753), (-9.829509786, 32.015147579), (-9.8212444, 32.014980072), (-9.817116366, 32.014896413)],
                knots=[0, 0, 0, 0, 0.104384754, 0.208950226, 0.313569176, 0.398093487, 0.483012464, 0.567612364, 0.700915154, 0.836484685, 0.973043492, 0.982112009, 0.991066088, 1, 1, 1, 1], degree=3))
            Line((-9.817116366, 32.014896413), (7.725721759, 32.014896413))
            ThreePointArc((7.725721759, 32.014896413), (12.741702224, 34.09258355), (14.819389361, 39.108564015))
            Line((14.819389361, 39.108564015), (14.819389361, 56.649953994))
            add(Edge.make_bspline(
                [(14.819389361, 56.649953994), (14.819681538, 56.654088243), (14.820267188, 56.662375085), (14.81963947, 56.674871643), (14.818155381, 56.746304415), (14.820697155, 56.876724498), (14.787319465, 57.061771486), (14.755486312, 57.221842244), (14.705479777, 57.35434308), (14.62689049, 57.444759462), (14.517454165, 57.512357762), (14.3814295, 57.53955279), (14.232961651, 57.515207684), (14.154478031, 57.456521872), (14.115208769, 57.42715844)],
                knots=[0, 0, 0, 0, 0.008953482, 0.017946692, 0.027021307, 0.163490993, 0.298949058, 0.432165007, 0.516776033, 0.601601228, 0.686034701, 0.790672378, 0.895262972, 1, 1, 1, 1], degree=3))
            Line((14.115208769, 57.42715844), (11.198386433, 54.510673236))
            add(Edge.make_bspline(
                [(11.198386433, 54.510673236), (11.189737643, 54.50058532), (11.172712209, 54.480726918), (11.146988546, 54.45027591), (11.11992052, 54.414228702), (11.108014065, 54.36337785), (11.109113984, 54.30464265), (11.112305892, 54.263909284), (11.114003119, 54.242250215)],
                knots=[0, 0, 0, 0, 0.134581529, 0.264928249, 0.404990742, 0.58604785, 0.779890073, 1, 1, 1, 1], degree=3))
            Line((11.114003119, 54.242250215), (11.114003119, 39.164130765))
            add(Edge.make_bspline(
                [(11.114003119, 39.164130765), (11.026069958, 38.560039142), (10.85421565, 37.379418015), (9.491383713, 36.016723245), (8.31051879, 35.844259059), (7.706108935, 35.755985581)],
                knots=[0, 0, 0, 0, 0.33840601, 0.661371999, 1, 1, 1, 1], degree=3))
        make_face()
    extrude(amount=BOSS_EXTRUDE1_3_DEPTH)


solid = Compound([part.part, body_2.part, body_3.part])
